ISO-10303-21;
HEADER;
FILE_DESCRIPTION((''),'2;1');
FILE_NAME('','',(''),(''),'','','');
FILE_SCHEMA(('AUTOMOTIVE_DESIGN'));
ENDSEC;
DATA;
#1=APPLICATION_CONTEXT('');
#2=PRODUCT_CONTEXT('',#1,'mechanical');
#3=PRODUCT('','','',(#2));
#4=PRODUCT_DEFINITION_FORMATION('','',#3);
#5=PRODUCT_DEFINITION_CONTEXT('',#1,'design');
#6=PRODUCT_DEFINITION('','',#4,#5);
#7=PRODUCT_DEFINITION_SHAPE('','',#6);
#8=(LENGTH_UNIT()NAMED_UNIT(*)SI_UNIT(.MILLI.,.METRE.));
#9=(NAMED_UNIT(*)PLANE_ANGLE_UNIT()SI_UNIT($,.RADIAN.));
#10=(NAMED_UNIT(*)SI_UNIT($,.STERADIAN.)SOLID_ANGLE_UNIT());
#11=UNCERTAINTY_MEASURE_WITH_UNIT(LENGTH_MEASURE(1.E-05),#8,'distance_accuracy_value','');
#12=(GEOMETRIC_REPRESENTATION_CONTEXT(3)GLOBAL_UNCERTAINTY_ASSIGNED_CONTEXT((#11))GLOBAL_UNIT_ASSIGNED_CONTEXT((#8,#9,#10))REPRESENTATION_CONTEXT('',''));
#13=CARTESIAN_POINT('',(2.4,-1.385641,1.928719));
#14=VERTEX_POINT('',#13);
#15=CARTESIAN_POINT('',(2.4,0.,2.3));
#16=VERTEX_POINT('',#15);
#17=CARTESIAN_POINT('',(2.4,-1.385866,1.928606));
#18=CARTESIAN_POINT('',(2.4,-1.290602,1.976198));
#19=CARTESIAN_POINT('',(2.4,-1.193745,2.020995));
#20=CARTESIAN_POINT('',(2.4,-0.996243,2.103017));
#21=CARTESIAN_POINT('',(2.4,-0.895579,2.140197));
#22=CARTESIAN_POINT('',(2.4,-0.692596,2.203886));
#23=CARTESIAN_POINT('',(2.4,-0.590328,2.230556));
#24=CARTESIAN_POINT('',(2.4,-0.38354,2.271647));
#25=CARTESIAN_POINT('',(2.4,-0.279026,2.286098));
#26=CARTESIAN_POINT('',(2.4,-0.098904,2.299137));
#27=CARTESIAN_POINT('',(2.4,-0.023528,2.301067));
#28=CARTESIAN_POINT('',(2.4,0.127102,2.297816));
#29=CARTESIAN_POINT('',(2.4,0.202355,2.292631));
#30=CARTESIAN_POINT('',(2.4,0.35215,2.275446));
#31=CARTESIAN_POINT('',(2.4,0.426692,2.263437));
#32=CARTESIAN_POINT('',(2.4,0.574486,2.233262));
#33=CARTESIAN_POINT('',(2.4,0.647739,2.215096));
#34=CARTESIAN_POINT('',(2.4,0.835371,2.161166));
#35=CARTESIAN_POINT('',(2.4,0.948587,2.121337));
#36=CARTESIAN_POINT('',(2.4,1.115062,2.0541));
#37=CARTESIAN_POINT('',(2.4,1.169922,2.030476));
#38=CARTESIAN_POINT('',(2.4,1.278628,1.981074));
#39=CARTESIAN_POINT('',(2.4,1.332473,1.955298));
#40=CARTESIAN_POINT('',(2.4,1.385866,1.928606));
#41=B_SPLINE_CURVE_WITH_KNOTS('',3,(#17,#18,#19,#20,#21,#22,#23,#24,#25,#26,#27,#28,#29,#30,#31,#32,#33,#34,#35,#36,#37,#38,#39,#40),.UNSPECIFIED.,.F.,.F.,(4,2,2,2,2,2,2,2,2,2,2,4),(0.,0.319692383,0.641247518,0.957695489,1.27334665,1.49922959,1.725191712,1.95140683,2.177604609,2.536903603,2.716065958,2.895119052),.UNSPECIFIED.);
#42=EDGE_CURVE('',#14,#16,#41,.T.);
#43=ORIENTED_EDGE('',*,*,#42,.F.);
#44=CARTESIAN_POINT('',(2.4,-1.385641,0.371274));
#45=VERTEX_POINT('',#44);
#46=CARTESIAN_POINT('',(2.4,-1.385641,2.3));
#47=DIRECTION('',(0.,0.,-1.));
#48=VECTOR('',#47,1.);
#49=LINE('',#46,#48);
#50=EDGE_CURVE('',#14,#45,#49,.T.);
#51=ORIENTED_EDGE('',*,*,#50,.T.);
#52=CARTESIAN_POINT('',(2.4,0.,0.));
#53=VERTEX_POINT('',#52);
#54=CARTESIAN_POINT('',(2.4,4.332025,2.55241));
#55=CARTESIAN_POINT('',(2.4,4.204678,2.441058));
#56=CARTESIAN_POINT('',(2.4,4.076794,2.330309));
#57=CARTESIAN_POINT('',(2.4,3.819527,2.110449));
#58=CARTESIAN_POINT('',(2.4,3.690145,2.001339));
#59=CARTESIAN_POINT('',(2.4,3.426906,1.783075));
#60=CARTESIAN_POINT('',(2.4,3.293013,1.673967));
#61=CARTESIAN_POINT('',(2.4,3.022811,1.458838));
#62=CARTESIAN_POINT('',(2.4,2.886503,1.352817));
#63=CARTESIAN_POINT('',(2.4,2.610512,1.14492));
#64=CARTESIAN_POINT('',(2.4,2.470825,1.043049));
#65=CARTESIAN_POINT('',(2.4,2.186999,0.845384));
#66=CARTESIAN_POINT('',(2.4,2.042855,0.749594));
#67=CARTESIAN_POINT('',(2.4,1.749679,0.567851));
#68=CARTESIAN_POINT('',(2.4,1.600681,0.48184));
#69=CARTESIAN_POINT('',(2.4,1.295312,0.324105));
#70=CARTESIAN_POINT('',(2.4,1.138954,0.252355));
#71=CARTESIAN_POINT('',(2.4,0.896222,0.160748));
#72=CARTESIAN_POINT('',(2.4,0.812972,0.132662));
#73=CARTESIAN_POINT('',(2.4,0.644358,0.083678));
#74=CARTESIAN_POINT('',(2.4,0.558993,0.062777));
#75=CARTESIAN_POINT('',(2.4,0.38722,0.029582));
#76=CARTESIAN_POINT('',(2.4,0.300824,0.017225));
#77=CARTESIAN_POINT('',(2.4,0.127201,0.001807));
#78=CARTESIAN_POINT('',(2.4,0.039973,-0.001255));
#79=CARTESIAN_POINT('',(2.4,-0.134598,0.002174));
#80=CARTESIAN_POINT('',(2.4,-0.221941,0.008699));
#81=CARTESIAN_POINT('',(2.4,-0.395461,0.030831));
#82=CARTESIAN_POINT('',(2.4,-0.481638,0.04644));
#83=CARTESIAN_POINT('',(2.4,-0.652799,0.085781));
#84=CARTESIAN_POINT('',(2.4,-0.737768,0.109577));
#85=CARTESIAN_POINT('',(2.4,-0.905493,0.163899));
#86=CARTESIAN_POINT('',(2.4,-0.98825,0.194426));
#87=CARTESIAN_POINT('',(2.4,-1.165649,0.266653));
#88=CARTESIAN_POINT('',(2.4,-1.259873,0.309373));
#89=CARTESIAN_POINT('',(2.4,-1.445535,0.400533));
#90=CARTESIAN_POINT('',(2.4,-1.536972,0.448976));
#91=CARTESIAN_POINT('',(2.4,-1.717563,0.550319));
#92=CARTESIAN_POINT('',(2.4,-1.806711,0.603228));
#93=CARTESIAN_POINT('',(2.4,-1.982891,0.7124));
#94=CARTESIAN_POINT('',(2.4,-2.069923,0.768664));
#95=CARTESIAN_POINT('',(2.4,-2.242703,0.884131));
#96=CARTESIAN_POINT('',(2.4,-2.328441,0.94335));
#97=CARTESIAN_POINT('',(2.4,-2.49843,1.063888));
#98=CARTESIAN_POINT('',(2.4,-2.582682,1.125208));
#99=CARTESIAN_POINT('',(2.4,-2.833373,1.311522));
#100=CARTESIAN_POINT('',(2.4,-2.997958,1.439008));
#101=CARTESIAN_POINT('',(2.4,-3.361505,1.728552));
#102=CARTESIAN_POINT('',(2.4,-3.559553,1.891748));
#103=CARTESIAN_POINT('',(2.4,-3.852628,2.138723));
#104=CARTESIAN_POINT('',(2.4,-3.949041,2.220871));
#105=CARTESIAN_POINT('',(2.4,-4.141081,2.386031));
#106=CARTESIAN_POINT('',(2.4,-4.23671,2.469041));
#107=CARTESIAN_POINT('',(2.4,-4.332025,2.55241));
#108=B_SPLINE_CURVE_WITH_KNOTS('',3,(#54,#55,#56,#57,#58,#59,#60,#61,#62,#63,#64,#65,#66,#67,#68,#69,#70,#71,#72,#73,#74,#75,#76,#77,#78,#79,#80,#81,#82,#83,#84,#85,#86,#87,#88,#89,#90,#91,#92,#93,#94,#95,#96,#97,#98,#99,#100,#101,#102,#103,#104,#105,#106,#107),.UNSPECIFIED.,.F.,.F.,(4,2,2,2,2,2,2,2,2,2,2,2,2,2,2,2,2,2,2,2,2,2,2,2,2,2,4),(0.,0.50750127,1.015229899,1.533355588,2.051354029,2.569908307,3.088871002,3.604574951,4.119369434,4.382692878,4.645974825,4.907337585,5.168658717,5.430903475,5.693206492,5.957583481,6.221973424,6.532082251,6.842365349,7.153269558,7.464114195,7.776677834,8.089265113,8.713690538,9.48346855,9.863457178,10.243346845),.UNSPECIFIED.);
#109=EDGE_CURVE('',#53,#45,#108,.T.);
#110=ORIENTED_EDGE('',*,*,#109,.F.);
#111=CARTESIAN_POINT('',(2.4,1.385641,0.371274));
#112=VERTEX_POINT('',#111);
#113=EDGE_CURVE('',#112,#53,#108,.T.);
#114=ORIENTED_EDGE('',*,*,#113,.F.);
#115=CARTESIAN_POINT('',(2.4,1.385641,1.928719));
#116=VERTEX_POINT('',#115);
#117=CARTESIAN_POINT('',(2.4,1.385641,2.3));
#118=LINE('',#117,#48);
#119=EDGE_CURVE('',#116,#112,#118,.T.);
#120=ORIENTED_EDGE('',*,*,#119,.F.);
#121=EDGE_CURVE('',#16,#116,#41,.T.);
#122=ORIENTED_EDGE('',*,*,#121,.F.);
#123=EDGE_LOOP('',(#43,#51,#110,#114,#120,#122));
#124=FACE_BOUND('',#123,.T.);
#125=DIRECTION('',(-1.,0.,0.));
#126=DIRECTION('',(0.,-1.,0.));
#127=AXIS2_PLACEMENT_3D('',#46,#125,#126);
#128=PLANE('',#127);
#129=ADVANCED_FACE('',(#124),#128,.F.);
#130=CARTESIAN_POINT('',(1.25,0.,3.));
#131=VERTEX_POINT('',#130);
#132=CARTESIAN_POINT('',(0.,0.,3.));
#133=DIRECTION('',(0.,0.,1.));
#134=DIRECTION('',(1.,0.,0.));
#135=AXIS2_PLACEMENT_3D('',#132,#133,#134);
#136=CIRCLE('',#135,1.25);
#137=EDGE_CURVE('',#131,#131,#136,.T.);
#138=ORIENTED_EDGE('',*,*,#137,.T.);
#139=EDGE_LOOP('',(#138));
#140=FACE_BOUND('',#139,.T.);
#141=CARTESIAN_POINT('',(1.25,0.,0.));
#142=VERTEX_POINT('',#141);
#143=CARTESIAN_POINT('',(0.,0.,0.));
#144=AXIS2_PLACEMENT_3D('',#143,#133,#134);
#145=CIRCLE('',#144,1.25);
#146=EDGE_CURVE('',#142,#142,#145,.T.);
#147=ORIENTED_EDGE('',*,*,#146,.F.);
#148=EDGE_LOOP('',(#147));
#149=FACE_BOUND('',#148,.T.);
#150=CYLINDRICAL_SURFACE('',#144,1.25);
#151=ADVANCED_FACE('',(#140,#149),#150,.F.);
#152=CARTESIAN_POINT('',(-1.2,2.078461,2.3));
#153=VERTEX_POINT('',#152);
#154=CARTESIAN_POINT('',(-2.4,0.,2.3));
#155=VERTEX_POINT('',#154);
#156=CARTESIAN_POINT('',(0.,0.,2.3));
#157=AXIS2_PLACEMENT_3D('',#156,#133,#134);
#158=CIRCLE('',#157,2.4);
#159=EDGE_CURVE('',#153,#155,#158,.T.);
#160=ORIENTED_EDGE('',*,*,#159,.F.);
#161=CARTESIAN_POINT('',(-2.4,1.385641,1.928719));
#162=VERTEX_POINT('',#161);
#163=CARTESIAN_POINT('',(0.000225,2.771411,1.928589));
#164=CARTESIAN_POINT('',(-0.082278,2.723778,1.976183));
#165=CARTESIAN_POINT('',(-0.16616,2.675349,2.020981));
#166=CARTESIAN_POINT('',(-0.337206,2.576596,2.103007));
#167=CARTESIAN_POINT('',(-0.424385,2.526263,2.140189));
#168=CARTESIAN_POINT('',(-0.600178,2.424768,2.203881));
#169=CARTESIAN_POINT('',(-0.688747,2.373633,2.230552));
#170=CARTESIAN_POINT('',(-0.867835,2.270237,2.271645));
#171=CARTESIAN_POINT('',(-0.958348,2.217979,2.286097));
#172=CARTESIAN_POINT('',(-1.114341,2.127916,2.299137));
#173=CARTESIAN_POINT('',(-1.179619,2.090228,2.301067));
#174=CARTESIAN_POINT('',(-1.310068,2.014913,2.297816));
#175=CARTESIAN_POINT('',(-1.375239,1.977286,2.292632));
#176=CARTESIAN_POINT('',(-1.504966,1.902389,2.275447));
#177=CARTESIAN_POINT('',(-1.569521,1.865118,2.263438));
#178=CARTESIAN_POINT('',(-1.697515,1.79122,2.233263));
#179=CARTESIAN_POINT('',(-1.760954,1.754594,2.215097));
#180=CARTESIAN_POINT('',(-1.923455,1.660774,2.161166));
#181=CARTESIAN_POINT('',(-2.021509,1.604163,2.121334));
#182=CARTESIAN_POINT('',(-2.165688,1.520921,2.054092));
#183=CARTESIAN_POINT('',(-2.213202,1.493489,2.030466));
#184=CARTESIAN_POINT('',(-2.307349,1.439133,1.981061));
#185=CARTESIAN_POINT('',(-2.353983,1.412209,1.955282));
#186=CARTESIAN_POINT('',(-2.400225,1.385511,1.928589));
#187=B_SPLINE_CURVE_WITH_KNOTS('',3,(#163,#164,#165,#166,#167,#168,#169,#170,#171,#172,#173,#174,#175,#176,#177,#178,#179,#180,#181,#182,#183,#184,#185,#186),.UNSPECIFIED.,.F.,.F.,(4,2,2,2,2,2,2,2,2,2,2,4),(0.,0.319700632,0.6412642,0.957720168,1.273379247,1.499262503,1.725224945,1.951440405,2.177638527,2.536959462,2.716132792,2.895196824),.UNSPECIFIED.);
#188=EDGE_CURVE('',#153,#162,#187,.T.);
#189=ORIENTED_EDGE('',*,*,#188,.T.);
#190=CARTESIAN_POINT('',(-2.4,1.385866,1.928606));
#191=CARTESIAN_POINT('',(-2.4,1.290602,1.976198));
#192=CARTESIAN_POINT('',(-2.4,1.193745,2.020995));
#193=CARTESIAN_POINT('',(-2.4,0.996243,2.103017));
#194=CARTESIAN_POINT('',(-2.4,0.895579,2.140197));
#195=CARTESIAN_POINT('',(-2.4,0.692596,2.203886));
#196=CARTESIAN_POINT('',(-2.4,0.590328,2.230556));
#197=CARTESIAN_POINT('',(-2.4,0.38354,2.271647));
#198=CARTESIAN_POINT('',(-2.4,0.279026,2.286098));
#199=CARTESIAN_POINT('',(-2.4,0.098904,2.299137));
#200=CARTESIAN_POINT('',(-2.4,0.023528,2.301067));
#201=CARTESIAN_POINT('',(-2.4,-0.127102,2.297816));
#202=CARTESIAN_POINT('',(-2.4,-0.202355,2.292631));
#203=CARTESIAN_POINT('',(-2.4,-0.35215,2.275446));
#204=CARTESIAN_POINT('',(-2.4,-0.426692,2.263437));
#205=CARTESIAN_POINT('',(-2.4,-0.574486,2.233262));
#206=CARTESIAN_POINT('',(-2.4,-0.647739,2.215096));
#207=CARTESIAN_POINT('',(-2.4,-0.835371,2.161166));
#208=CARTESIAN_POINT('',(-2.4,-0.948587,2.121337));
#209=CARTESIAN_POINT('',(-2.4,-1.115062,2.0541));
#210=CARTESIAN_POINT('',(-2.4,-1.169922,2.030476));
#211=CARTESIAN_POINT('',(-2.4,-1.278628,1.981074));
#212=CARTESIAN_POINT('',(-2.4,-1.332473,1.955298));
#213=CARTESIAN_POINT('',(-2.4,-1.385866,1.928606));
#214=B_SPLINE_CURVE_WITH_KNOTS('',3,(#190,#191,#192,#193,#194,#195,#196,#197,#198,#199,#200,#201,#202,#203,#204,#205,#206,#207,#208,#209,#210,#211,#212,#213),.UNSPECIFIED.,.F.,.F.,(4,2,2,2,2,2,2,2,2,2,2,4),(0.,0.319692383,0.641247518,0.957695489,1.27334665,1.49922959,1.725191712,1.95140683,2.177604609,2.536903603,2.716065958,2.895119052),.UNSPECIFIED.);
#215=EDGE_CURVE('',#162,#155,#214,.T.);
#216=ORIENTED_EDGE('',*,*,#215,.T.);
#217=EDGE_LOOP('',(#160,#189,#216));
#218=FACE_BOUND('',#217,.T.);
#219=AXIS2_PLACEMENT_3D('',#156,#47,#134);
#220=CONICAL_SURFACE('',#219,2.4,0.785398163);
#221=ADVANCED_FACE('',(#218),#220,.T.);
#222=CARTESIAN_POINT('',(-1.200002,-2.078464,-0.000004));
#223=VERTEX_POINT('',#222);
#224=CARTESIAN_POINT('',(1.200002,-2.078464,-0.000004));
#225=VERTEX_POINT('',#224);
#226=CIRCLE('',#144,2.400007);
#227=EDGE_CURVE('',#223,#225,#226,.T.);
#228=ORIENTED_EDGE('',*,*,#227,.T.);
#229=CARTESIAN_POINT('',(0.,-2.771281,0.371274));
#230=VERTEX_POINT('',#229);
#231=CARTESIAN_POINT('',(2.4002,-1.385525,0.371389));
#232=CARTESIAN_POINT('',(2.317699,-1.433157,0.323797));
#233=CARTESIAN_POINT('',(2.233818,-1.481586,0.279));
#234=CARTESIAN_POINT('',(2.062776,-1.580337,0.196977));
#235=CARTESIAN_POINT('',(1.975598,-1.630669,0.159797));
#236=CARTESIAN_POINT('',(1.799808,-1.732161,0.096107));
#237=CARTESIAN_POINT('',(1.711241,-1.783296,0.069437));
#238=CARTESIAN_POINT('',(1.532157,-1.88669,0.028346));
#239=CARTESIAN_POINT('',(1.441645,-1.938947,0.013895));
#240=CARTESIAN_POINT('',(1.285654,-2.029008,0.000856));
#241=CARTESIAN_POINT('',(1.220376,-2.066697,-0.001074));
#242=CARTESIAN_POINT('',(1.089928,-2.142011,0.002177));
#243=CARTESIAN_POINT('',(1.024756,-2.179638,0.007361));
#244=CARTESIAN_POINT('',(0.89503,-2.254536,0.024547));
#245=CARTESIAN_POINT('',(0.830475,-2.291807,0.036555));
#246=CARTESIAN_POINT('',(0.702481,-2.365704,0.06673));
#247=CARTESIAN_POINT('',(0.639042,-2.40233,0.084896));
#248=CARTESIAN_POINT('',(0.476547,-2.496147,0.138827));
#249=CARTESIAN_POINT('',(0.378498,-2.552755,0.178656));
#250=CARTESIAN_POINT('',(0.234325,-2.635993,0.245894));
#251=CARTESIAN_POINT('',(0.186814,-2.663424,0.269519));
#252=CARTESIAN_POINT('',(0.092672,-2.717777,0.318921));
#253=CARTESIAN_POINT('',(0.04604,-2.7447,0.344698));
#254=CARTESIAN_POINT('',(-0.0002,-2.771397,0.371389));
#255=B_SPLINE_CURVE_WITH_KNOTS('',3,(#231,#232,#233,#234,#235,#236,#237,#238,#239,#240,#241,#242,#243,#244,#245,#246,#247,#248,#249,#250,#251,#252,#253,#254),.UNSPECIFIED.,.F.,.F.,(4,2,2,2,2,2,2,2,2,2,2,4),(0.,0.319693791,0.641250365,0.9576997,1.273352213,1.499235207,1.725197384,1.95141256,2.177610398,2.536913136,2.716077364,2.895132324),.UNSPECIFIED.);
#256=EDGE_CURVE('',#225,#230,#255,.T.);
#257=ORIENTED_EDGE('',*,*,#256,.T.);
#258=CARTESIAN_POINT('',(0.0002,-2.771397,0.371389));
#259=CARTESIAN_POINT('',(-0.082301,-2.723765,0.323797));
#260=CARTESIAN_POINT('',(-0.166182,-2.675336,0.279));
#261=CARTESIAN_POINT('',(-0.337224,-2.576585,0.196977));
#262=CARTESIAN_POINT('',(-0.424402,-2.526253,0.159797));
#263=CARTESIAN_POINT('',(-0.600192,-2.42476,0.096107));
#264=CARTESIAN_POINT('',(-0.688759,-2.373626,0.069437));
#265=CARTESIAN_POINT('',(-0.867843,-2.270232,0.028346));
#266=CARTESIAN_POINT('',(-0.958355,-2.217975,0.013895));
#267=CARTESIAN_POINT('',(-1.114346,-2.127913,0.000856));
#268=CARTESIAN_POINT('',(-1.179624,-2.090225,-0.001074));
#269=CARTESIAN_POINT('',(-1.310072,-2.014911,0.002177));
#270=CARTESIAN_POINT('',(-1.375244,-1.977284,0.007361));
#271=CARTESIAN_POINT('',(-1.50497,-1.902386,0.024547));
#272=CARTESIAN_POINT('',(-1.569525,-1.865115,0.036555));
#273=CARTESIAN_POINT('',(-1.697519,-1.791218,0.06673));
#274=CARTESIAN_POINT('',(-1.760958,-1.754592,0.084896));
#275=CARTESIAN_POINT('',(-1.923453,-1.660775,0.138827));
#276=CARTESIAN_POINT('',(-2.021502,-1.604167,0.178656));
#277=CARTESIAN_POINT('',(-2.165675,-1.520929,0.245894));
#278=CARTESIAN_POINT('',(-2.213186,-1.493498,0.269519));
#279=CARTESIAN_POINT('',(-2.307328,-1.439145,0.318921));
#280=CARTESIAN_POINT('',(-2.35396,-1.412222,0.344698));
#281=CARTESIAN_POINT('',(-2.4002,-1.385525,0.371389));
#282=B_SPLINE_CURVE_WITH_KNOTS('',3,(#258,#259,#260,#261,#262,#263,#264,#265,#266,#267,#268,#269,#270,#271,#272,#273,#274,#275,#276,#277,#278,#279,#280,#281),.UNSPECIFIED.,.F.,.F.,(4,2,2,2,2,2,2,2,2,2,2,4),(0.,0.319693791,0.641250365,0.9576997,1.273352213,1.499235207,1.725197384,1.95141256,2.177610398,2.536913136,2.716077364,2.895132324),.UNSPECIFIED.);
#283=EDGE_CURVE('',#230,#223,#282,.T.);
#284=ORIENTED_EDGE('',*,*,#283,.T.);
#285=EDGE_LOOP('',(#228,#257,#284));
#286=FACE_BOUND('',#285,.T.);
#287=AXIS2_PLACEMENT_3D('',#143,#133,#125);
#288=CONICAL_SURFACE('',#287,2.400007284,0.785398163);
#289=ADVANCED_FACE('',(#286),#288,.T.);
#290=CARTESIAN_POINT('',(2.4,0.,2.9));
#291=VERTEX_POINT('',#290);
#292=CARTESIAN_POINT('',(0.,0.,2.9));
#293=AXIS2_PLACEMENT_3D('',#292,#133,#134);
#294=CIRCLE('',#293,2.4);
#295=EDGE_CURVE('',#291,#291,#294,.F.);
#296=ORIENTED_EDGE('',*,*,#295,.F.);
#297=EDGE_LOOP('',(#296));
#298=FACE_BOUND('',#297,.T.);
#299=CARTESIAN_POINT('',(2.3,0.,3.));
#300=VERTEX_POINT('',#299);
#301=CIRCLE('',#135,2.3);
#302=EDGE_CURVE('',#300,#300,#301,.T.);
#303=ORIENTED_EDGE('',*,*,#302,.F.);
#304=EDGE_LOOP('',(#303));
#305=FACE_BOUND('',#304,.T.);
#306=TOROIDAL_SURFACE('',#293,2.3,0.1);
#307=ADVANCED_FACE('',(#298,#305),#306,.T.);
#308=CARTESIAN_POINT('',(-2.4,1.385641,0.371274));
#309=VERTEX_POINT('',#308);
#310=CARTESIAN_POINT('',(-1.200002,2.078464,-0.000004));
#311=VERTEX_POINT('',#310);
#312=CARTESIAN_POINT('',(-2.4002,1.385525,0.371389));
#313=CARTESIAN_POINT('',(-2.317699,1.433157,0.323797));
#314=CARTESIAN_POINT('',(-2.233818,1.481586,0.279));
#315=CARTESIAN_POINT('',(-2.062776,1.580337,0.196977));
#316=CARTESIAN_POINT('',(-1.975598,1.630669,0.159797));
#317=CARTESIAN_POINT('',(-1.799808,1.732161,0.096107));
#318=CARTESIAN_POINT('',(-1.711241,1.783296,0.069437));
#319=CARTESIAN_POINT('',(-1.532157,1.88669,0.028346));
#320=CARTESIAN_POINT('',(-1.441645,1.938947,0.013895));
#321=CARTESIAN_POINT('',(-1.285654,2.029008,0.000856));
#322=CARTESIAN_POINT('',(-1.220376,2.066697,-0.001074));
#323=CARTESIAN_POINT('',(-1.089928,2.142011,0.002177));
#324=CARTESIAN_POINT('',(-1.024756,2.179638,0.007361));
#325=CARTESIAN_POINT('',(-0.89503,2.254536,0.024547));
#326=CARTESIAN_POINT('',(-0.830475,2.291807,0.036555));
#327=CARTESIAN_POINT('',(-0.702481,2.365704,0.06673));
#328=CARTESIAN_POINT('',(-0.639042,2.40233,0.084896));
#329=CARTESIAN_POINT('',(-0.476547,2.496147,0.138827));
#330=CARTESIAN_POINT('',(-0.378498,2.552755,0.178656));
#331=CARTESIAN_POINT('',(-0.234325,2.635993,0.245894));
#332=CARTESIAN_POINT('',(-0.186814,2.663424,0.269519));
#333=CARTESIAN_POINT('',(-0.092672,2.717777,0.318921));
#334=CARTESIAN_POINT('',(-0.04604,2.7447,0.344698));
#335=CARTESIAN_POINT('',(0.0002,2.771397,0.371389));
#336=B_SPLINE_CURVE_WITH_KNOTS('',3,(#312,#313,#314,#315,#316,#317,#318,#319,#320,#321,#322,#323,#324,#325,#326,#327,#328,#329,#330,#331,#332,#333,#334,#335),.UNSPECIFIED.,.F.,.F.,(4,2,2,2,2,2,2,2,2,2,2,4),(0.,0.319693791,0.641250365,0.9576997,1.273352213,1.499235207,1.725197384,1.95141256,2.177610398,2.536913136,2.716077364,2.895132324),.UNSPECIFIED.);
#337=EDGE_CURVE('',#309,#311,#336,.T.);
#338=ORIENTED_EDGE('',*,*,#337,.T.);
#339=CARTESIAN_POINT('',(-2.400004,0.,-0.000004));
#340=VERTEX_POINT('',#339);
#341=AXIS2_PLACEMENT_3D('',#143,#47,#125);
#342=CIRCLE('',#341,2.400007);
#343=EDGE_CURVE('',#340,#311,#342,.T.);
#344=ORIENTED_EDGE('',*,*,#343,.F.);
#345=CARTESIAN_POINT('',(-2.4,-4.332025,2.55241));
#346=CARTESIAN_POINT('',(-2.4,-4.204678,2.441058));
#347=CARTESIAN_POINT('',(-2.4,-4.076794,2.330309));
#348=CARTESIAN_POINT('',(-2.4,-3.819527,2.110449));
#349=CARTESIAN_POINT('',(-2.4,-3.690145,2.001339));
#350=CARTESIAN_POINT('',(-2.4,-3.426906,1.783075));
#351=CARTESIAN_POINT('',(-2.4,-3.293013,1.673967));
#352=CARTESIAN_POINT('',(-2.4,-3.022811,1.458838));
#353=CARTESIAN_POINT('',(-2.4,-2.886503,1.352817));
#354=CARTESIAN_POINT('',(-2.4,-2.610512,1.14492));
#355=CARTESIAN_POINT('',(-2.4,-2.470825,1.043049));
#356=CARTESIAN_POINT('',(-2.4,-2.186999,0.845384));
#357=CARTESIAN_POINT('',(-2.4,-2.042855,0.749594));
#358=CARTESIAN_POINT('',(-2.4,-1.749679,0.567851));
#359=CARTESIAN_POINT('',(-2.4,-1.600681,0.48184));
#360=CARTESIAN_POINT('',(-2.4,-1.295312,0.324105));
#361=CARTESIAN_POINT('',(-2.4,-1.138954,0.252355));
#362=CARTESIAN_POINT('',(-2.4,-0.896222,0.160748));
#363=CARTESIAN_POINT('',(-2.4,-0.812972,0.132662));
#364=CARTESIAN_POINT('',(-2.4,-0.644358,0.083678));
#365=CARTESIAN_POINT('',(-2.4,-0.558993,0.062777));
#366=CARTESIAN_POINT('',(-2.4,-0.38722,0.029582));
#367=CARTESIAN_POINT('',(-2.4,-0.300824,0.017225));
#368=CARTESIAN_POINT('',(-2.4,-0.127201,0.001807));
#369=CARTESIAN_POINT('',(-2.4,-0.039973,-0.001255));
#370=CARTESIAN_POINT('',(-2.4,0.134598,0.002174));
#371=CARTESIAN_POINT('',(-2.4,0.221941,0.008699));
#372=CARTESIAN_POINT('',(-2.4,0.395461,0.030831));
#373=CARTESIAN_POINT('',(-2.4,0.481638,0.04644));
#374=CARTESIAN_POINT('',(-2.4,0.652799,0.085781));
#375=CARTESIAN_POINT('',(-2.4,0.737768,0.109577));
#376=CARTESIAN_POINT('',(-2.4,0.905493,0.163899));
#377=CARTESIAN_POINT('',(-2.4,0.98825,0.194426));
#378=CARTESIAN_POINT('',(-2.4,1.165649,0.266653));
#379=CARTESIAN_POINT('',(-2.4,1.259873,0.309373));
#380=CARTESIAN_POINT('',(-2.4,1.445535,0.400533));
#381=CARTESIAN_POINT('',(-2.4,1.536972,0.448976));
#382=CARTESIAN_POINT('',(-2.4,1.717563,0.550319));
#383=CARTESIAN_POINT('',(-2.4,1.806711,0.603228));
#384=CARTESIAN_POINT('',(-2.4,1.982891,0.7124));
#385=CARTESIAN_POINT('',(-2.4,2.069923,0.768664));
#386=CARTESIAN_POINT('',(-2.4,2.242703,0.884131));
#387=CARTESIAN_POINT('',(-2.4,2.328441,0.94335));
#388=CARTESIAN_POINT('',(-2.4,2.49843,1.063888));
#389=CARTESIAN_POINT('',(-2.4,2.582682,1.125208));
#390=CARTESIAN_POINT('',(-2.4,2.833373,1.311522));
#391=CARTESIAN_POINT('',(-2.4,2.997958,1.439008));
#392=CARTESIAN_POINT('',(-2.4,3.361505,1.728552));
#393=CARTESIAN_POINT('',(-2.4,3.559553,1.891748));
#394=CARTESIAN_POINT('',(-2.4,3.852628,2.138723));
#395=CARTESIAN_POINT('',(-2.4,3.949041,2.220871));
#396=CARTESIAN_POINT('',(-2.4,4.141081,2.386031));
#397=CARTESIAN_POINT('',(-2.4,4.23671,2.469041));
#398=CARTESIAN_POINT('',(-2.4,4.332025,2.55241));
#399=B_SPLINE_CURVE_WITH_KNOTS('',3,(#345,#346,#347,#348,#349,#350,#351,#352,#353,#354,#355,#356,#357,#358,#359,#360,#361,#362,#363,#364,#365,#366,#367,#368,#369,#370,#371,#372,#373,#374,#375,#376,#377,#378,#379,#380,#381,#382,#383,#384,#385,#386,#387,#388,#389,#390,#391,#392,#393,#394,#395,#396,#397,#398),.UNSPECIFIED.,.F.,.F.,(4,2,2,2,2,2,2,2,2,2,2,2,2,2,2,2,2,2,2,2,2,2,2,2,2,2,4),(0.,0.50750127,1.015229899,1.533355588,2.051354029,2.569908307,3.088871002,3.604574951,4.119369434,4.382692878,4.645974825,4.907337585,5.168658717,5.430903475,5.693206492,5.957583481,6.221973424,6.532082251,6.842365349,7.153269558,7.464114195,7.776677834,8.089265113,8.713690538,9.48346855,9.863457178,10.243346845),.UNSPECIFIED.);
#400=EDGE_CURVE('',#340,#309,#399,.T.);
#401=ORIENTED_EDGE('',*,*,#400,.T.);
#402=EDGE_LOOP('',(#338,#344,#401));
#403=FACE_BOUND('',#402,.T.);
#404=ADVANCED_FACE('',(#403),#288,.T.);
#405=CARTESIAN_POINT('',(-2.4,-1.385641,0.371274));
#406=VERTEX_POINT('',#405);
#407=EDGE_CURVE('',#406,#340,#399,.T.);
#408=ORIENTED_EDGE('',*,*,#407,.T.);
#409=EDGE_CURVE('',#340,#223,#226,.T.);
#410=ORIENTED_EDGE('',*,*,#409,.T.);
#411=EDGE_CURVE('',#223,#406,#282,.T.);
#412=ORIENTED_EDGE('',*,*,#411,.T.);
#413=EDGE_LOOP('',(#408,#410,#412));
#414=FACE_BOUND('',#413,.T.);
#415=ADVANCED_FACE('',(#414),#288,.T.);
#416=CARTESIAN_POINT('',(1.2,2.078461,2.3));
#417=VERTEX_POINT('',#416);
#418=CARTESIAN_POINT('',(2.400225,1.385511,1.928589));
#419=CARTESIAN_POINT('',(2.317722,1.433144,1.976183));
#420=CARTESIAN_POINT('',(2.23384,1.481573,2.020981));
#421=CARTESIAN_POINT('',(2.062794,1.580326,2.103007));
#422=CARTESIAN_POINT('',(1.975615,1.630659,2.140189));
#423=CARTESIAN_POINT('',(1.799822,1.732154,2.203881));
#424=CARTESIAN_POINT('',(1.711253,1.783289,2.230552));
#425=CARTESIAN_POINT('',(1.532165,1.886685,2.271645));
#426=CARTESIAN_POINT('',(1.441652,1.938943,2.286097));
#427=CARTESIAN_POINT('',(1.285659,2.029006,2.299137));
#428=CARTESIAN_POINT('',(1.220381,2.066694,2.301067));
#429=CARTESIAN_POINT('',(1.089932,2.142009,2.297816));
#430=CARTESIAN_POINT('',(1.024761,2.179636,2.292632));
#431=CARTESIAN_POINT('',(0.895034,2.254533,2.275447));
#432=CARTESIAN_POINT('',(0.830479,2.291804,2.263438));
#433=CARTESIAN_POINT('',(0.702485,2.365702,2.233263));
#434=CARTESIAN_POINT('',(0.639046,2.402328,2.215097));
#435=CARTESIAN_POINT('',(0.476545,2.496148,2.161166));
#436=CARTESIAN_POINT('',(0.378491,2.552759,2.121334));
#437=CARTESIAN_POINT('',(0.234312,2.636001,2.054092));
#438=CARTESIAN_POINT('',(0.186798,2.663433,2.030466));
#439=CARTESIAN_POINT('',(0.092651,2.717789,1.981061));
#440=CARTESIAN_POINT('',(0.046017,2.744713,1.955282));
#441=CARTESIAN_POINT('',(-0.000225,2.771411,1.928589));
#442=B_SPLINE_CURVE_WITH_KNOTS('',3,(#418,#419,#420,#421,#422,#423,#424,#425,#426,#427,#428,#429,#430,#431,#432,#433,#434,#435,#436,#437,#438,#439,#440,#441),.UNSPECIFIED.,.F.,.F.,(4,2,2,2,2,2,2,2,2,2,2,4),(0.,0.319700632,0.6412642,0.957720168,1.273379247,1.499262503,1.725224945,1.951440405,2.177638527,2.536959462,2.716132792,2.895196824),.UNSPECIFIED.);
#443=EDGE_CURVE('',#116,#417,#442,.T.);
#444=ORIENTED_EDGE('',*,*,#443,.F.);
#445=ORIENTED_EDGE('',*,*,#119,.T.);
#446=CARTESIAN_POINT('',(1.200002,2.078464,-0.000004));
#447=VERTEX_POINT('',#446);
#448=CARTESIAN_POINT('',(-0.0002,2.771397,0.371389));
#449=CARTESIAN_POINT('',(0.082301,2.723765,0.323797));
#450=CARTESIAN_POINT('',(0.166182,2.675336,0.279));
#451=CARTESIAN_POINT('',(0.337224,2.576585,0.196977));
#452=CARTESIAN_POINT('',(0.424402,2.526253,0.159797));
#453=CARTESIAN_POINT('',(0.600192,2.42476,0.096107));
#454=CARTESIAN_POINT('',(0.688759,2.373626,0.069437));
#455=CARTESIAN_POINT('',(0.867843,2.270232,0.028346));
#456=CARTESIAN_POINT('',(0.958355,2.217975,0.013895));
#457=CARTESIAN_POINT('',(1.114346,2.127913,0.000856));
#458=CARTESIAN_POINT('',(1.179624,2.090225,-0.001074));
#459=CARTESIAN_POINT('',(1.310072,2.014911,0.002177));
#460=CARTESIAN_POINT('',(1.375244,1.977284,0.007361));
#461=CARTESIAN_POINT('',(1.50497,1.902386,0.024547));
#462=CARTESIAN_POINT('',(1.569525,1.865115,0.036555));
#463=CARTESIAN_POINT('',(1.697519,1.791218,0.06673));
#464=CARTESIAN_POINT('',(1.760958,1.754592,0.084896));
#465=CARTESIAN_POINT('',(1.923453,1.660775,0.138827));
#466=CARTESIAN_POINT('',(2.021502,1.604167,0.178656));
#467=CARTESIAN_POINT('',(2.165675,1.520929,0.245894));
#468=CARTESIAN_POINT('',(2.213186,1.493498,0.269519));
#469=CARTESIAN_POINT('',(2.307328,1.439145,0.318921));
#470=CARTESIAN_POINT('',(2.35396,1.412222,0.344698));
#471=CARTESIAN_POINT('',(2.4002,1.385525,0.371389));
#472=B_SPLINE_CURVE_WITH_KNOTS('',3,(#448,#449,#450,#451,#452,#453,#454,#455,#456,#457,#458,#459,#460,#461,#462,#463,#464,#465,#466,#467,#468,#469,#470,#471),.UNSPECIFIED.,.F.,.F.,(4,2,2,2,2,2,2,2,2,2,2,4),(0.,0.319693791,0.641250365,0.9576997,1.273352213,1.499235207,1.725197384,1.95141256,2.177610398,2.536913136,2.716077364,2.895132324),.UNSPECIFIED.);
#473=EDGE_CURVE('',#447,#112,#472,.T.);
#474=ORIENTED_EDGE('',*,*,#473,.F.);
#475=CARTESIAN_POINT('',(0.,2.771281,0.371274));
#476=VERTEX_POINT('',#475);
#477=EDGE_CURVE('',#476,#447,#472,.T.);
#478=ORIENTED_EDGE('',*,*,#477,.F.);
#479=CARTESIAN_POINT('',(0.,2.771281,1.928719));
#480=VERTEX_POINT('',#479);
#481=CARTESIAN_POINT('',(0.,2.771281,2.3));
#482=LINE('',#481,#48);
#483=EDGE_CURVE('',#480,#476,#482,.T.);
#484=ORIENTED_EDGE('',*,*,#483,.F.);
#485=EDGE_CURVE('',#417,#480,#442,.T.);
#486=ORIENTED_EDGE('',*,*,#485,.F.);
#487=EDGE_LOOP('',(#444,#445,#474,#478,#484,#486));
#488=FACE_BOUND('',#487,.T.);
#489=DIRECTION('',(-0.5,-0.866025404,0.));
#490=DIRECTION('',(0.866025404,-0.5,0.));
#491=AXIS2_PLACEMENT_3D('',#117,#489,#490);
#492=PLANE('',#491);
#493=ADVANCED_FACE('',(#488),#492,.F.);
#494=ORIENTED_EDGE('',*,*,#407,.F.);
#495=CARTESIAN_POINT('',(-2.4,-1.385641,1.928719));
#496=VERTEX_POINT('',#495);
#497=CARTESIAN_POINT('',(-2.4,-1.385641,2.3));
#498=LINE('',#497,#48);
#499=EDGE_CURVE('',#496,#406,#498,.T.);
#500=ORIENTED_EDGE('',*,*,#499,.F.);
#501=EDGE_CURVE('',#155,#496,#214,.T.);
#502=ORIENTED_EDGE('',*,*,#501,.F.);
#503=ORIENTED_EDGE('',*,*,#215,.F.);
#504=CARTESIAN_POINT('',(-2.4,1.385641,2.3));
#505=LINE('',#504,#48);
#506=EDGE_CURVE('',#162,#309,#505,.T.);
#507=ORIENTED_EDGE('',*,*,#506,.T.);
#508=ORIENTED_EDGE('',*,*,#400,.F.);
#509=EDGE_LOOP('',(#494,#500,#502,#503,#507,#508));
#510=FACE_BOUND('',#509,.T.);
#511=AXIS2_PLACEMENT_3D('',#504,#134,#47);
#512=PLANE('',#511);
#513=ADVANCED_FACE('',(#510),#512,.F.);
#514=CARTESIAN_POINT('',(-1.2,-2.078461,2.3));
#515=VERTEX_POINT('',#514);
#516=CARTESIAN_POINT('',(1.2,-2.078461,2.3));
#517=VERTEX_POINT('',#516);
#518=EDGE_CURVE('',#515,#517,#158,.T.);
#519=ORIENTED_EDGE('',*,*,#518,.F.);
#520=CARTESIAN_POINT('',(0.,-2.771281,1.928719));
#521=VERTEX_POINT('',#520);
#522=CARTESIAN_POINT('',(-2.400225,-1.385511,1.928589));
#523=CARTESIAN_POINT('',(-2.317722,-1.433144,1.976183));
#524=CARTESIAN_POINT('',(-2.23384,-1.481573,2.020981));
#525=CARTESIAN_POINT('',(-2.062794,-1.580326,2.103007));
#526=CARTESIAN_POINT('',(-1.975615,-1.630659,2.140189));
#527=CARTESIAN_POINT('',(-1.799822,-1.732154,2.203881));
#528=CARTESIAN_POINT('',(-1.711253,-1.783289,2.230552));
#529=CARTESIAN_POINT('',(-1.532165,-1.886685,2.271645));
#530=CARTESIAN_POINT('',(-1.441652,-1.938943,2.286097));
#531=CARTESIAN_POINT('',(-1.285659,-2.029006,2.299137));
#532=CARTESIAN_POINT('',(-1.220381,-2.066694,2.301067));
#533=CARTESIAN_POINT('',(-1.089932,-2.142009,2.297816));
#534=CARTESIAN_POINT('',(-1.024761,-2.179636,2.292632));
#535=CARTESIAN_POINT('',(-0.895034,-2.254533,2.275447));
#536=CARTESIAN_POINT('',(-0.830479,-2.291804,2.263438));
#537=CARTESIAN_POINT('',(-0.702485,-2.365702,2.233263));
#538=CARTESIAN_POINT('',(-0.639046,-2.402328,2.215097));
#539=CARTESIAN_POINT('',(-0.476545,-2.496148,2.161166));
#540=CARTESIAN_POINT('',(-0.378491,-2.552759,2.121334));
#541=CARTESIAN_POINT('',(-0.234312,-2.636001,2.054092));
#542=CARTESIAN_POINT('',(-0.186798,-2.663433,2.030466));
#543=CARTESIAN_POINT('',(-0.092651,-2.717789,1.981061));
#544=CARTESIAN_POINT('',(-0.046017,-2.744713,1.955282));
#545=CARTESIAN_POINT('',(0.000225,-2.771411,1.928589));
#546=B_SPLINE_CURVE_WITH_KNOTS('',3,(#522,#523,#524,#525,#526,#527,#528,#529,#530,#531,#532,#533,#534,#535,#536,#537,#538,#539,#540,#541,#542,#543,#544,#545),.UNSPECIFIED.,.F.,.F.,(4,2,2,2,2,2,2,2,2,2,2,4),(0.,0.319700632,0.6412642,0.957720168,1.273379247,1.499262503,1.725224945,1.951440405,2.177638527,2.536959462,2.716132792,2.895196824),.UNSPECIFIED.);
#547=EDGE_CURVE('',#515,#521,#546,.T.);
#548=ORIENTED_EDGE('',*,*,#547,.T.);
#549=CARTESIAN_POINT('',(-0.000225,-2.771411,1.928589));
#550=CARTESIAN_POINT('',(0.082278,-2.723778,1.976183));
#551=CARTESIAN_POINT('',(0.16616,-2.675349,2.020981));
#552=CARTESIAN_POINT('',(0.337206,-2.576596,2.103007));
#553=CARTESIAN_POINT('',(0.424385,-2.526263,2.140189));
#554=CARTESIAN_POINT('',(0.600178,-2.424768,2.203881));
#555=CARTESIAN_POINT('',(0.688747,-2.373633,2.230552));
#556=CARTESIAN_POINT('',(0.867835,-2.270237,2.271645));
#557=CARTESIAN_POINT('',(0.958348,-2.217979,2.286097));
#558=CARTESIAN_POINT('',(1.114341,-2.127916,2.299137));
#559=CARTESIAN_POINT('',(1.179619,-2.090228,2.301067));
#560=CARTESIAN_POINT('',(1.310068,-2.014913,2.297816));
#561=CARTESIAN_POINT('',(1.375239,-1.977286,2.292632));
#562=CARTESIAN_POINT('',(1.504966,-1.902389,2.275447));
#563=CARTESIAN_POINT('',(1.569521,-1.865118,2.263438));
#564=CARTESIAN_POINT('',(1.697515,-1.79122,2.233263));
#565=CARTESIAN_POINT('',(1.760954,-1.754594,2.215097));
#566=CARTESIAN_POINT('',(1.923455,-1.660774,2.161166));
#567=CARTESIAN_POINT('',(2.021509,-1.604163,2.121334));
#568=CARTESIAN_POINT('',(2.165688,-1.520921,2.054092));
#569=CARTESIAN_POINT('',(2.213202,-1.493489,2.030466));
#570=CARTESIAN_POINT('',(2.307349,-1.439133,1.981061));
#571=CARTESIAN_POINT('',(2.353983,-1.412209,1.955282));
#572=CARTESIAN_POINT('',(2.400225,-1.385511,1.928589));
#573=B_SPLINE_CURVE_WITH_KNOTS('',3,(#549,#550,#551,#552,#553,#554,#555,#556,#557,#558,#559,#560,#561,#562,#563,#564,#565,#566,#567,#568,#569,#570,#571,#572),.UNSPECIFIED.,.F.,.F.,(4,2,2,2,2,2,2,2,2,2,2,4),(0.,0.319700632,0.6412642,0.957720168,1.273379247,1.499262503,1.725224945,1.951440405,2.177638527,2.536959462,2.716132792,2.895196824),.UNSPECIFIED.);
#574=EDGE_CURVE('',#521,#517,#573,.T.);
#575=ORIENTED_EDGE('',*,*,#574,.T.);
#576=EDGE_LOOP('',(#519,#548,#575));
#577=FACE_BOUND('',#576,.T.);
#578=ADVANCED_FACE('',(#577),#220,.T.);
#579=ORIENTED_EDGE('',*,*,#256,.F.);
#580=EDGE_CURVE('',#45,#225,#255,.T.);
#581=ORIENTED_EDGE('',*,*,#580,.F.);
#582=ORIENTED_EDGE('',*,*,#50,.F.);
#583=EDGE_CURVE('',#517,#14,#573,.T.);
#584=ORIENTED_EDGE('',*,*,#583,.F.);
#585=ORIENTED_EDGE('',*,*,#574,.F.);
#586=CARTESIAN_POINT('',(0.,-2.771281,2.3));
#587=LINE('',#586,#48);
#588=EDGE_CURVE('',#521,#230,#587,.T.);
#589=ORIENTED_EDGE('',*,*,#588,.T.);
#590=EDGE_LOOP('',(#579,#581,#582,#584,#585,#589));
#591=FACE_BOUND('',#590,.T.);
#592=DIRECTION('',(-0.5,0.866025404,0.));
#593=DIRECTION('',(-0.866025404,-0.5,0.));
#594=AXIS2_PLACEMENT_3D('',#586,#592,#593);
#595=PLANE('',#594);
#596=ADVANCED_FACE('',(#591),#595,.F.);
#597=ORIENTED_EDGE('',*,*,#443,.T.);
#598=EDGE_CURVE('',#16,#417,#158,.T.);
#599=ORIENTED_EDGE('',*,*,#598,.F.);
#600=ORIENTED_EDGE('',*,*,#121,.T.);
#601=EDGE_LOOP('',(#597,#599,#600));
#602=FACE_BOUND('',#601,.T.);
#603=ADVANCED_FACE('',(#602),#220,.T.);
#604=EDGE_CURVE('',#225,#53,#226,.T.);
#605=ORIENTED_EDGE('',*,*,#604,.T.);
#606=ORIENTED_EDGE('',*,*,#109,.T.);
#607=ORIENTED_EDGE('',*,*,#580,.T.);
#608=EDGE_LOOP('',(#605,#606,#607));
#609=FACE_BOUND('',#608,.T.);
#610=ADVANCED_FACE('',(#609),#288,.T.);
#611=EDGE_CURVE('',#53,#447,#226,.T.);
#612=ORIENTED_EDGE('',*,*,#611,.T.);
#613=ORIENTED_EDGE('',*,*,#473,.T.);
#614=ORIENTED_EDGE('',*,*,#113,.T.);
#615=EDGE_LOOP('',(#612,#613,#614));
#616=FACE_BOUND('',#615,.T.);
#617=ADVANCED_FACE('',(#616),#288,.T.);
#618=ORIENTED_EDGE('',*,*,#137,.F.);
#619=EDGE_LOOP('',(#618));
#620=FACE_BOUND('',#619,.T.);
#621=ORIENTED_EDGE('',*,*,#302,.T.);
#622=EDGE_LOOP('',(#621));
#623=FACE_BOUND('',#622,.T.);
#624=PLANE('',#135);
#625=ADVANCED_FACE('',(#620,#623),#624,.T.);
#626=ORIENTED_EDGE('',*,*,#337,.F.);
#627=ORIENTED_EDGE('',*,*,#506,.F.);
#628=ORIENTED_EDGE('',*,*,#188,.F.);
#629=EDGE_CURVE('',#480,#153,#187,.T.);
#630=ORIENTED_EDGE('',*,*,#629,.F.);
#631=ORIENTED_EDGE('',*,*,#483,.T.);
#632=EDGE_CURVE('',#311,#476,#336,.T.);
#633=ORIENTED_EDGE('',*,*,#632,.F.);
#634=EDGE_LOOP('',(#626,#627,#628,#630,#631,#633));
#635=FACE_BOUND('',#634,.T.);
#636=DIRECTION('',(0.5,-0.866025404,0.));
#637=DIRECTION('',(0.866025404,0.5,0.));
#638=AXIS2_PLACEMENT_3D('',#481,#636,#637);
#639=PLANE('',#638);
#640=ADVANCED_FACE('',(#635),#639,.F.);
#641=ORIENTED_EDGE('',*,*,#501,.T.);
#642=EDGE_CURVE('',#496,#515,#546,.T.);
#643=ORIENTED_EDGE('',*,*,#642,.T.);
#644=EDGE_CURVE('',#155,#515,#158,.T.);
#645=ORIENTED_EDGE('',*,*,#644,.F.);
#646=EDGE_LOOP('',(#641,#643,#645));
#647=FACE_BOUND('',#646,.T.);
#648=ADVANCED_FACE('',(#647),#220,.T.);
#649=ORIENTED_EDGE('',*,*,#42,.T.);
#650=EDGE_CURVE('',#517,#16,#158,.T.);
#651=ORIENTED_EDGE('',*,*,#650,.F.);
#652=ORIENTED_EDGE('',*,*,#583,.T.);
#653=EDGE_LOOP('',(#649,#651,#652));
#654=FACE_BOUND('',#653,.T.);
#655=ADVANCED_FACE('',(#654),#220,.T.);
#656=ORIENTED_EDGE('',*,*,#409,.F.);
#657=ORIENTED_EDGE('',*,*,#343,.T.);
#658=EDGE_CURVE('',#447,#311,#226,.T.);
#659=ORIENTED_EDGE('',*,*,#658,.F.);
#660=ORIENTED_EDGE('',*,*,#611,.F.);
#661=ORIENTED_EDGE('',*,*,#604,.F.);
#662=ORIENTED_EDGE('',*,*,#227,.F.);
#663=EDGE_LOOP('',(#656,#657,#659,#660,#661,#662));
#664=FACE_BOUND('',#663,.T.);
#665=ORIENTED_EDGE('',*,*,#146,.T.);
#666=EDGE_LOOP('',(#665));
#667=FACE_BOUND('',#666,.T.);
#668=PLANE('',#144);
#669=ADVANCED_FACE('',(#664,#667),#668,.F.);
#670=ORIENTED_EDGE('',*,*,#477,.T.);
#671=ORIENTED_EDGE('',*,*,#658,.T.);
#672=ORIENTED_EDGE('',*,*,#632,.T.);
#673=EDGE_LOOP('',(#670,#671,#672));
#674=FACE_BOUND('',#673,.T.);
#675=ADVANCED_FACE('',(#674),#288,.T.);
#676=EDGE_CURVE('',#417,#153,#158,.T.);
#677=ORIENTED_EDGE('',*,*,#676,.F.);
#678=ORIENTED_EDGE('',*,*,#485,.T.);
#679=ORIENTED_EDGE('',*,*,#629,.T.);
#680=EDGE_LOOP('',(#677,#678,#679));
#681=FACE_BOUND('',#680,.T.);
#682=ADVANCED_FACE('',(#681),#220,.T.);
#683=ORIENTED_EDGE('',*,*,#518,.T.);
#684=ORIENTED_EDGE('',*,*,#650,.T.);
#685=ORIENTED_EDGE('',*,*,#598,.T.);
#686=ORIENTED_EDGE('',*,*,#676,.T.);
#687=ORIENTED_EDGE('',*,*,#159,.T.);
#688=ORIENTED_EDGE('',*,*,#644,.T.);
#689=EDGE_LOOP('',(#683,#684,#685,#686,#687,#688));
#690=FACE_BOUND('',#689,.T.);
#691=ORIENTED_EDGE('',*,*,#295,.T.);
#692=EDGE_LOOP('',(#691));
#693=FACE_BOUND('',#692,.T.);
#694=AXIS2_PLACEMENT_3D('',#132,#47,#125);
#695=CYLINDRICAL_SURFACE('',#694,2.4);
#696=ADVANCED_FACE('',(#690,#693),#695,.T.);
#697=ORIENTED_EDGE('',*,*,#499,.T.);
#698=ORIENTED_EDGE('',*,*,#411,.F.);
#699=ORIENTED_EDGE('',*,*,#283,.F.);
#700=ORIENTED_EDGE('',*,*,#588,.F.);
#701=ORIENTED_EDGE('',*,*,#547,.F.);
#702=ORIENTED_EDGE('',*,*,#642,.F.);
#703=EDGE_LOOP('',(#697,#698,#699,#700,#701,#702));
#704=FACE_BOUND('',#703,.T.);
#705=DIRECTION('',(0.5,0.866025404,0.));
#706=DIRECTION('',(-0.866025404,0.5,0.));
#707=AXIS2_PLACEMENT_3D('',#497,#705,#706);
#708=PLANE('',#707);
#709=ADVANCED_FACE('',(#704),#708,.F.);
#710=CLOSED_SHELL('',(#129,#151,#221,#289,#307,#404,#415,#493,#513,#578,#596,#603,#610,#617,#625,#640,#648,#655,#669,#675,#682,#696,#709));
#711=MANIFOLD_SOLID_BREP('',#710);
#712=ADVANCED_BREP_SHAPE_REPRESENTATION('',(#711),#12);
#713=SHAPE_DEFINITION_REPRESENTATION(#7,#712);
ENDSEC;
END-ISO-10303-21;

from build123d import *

# Parameters (mm, degrees)
EXTRUDE_1_DEPTH      = 2.3
SKETCH_2_R           = 2.4
EXTRUDE_2_DEPTH      = 0.7
SKETCH_3_R           = 1.25
CUT_EXTRUDE_1_DEPTH  = 5.737087713
SKETCH_4_OUTSIDE_W   = 10.384
SKETCH_4_OUTSIDE_H   = 11.126
SKETCH_4_OUTSIDE_R   = 2.400007284
CUT_EXTRUDE_10_DEPTH = 1
CUT_EXTRUDE_10_DRAFT = -45
SKETCH_2_4_OUTSIDE_W = 10.384
SKETCH_2_4_OUTSIDE_H = 11.126
SKETCH_2_4_OUTSIDE_R = 2.4
CUT_EXTRUDE_11_DEPTH = 1
CUT_EXTRUDE_11_DRAFT = -45
FILLET_1_R           = 0.1


with BuildPart() as part:
    # 草图1 → 凸台-拉伸1 (new body)
    with BuildSketch(Plane.XY):
        Polygon((0, 2.771281292), (-2.4, 1.385640646), (-2.4, -1.385640646), (0, -2.771281292), (2.4, -1.385640646), (2.4, 1.385640646), align=None)
    extrude(amount=EXTRUDE_1_DEPTH)

    # 草图2 → 凸台-拉伸2 (add)
    with BuildSketch(Plane.XY.offset(2.3)):
        Circle(SKETCH_2_R)
    extrude(amount=EXTRUDE_2_DEPTH)

    # 草图3 → 切除-拉伸1 (cut, through all)
    with BuildSketch(Plane.XY.offset(3)):
        Circle(SKETCH_3_R)
    extrude(amount=-CUT_EXTRUDE_1_DEPTH, mode=Mode.SUBTRACT)


with BuildPart() as cut_extrude_10_tool:
    # 草图4 outside → 切除-拉伸10 (with draft: the straight prism first)
    with BuildSketch(Plane(origin=(0, 0, 0), x_dir=(-1, 0, 0), z_dir=(0, 0, -1))):
        Rectangle(SKETCH_4_OUTSIDE_W, SKETCH_4_OUTSIDE_H)
        Circle(SKETCH_4_OUTSIDE_R, mode=Mode.SUBTRACT)
    extrude(amount=-CUT_EXTRUDE_10_DEPTH)
    # 切除-拉伸10: the draft: its side faces are tilted about the plane it starts from
    cut_extrude_10_sides = [cut_extrude_10_tool.faces().sort_by_distance(p)[0] for p in [
        (0, -5.563, 0.5),
        (-5.192, 0, 0.5),
        (0, 5.563, 0.5),
        (5.192, 0, 0.5),
        (2.400007284, 0, 0.5),
    ]]
    draft(cut_extrude_10_sides, Plane(origin=(0, 0, 0), x_dir=(-1, 0, 0), z_dir=(0, 0, -1)), CUT_EXTRUDE_10_DRAFT)


with BuildPart() as part_1:
    add(part.part)

    # 切除-拉伸10: cut by cut_extrude_10_tool
    add(cut_extrude_10_tool.part, mode=Mode.SUBTRACT)


with BuildPart() as cut_extrude_11_tool:
    # 草图2<4> outside → 切除-拉伸11 (with draft: the straight prism first)
    with BuildSketch(Plane.XY.offset(2.3)):
        Rectangle(SKETCH_2_4_OUTSIDE_W, SKETCH_2_4_OUTSIDE_H)
        Circle(SKETCH_2_4_OUTSIDE_R, mode=Mode.SUBTRACT)
    extrude(amount=-CUT_EXTRUDE_11_DEPTH)
    # 切除-拉伸11: the draft: its side faces are tilted about the plane it starts from
    cut_extrude_11_sides = [cut_extrude_11_tool.faces().sort_by_distance(p)[0] for p in [
        (0, -5.563, 1.8),
        (5.192, 0, 1.8),
        (0, 5.563, 1.8),
        (-5.192, 0, 1.8),
        (-2.4, 0, 1.8),
    ]]
    draft(cut_extrude_11_sides, Plane.XY.offset(2.3), CUT_EXTRUDE_11_DRAFT)


with BuildPart() as part_2:
    add(part_1.part)

    # 切除-拉伸11: cut by cut_extrude_11_tool
    add(cut_extrude_11_tool.part, mode=Mode.SUBTRACT)

    # 圆角1
    fillet_1_edges = [part_2.edges().sort_by_distance(p)[0] for p in [
        (-2.4, 0, 3),
    ]]
    fillet(fillet_1_edges, radius=FILLET_1_R)


solid = part_2.part
